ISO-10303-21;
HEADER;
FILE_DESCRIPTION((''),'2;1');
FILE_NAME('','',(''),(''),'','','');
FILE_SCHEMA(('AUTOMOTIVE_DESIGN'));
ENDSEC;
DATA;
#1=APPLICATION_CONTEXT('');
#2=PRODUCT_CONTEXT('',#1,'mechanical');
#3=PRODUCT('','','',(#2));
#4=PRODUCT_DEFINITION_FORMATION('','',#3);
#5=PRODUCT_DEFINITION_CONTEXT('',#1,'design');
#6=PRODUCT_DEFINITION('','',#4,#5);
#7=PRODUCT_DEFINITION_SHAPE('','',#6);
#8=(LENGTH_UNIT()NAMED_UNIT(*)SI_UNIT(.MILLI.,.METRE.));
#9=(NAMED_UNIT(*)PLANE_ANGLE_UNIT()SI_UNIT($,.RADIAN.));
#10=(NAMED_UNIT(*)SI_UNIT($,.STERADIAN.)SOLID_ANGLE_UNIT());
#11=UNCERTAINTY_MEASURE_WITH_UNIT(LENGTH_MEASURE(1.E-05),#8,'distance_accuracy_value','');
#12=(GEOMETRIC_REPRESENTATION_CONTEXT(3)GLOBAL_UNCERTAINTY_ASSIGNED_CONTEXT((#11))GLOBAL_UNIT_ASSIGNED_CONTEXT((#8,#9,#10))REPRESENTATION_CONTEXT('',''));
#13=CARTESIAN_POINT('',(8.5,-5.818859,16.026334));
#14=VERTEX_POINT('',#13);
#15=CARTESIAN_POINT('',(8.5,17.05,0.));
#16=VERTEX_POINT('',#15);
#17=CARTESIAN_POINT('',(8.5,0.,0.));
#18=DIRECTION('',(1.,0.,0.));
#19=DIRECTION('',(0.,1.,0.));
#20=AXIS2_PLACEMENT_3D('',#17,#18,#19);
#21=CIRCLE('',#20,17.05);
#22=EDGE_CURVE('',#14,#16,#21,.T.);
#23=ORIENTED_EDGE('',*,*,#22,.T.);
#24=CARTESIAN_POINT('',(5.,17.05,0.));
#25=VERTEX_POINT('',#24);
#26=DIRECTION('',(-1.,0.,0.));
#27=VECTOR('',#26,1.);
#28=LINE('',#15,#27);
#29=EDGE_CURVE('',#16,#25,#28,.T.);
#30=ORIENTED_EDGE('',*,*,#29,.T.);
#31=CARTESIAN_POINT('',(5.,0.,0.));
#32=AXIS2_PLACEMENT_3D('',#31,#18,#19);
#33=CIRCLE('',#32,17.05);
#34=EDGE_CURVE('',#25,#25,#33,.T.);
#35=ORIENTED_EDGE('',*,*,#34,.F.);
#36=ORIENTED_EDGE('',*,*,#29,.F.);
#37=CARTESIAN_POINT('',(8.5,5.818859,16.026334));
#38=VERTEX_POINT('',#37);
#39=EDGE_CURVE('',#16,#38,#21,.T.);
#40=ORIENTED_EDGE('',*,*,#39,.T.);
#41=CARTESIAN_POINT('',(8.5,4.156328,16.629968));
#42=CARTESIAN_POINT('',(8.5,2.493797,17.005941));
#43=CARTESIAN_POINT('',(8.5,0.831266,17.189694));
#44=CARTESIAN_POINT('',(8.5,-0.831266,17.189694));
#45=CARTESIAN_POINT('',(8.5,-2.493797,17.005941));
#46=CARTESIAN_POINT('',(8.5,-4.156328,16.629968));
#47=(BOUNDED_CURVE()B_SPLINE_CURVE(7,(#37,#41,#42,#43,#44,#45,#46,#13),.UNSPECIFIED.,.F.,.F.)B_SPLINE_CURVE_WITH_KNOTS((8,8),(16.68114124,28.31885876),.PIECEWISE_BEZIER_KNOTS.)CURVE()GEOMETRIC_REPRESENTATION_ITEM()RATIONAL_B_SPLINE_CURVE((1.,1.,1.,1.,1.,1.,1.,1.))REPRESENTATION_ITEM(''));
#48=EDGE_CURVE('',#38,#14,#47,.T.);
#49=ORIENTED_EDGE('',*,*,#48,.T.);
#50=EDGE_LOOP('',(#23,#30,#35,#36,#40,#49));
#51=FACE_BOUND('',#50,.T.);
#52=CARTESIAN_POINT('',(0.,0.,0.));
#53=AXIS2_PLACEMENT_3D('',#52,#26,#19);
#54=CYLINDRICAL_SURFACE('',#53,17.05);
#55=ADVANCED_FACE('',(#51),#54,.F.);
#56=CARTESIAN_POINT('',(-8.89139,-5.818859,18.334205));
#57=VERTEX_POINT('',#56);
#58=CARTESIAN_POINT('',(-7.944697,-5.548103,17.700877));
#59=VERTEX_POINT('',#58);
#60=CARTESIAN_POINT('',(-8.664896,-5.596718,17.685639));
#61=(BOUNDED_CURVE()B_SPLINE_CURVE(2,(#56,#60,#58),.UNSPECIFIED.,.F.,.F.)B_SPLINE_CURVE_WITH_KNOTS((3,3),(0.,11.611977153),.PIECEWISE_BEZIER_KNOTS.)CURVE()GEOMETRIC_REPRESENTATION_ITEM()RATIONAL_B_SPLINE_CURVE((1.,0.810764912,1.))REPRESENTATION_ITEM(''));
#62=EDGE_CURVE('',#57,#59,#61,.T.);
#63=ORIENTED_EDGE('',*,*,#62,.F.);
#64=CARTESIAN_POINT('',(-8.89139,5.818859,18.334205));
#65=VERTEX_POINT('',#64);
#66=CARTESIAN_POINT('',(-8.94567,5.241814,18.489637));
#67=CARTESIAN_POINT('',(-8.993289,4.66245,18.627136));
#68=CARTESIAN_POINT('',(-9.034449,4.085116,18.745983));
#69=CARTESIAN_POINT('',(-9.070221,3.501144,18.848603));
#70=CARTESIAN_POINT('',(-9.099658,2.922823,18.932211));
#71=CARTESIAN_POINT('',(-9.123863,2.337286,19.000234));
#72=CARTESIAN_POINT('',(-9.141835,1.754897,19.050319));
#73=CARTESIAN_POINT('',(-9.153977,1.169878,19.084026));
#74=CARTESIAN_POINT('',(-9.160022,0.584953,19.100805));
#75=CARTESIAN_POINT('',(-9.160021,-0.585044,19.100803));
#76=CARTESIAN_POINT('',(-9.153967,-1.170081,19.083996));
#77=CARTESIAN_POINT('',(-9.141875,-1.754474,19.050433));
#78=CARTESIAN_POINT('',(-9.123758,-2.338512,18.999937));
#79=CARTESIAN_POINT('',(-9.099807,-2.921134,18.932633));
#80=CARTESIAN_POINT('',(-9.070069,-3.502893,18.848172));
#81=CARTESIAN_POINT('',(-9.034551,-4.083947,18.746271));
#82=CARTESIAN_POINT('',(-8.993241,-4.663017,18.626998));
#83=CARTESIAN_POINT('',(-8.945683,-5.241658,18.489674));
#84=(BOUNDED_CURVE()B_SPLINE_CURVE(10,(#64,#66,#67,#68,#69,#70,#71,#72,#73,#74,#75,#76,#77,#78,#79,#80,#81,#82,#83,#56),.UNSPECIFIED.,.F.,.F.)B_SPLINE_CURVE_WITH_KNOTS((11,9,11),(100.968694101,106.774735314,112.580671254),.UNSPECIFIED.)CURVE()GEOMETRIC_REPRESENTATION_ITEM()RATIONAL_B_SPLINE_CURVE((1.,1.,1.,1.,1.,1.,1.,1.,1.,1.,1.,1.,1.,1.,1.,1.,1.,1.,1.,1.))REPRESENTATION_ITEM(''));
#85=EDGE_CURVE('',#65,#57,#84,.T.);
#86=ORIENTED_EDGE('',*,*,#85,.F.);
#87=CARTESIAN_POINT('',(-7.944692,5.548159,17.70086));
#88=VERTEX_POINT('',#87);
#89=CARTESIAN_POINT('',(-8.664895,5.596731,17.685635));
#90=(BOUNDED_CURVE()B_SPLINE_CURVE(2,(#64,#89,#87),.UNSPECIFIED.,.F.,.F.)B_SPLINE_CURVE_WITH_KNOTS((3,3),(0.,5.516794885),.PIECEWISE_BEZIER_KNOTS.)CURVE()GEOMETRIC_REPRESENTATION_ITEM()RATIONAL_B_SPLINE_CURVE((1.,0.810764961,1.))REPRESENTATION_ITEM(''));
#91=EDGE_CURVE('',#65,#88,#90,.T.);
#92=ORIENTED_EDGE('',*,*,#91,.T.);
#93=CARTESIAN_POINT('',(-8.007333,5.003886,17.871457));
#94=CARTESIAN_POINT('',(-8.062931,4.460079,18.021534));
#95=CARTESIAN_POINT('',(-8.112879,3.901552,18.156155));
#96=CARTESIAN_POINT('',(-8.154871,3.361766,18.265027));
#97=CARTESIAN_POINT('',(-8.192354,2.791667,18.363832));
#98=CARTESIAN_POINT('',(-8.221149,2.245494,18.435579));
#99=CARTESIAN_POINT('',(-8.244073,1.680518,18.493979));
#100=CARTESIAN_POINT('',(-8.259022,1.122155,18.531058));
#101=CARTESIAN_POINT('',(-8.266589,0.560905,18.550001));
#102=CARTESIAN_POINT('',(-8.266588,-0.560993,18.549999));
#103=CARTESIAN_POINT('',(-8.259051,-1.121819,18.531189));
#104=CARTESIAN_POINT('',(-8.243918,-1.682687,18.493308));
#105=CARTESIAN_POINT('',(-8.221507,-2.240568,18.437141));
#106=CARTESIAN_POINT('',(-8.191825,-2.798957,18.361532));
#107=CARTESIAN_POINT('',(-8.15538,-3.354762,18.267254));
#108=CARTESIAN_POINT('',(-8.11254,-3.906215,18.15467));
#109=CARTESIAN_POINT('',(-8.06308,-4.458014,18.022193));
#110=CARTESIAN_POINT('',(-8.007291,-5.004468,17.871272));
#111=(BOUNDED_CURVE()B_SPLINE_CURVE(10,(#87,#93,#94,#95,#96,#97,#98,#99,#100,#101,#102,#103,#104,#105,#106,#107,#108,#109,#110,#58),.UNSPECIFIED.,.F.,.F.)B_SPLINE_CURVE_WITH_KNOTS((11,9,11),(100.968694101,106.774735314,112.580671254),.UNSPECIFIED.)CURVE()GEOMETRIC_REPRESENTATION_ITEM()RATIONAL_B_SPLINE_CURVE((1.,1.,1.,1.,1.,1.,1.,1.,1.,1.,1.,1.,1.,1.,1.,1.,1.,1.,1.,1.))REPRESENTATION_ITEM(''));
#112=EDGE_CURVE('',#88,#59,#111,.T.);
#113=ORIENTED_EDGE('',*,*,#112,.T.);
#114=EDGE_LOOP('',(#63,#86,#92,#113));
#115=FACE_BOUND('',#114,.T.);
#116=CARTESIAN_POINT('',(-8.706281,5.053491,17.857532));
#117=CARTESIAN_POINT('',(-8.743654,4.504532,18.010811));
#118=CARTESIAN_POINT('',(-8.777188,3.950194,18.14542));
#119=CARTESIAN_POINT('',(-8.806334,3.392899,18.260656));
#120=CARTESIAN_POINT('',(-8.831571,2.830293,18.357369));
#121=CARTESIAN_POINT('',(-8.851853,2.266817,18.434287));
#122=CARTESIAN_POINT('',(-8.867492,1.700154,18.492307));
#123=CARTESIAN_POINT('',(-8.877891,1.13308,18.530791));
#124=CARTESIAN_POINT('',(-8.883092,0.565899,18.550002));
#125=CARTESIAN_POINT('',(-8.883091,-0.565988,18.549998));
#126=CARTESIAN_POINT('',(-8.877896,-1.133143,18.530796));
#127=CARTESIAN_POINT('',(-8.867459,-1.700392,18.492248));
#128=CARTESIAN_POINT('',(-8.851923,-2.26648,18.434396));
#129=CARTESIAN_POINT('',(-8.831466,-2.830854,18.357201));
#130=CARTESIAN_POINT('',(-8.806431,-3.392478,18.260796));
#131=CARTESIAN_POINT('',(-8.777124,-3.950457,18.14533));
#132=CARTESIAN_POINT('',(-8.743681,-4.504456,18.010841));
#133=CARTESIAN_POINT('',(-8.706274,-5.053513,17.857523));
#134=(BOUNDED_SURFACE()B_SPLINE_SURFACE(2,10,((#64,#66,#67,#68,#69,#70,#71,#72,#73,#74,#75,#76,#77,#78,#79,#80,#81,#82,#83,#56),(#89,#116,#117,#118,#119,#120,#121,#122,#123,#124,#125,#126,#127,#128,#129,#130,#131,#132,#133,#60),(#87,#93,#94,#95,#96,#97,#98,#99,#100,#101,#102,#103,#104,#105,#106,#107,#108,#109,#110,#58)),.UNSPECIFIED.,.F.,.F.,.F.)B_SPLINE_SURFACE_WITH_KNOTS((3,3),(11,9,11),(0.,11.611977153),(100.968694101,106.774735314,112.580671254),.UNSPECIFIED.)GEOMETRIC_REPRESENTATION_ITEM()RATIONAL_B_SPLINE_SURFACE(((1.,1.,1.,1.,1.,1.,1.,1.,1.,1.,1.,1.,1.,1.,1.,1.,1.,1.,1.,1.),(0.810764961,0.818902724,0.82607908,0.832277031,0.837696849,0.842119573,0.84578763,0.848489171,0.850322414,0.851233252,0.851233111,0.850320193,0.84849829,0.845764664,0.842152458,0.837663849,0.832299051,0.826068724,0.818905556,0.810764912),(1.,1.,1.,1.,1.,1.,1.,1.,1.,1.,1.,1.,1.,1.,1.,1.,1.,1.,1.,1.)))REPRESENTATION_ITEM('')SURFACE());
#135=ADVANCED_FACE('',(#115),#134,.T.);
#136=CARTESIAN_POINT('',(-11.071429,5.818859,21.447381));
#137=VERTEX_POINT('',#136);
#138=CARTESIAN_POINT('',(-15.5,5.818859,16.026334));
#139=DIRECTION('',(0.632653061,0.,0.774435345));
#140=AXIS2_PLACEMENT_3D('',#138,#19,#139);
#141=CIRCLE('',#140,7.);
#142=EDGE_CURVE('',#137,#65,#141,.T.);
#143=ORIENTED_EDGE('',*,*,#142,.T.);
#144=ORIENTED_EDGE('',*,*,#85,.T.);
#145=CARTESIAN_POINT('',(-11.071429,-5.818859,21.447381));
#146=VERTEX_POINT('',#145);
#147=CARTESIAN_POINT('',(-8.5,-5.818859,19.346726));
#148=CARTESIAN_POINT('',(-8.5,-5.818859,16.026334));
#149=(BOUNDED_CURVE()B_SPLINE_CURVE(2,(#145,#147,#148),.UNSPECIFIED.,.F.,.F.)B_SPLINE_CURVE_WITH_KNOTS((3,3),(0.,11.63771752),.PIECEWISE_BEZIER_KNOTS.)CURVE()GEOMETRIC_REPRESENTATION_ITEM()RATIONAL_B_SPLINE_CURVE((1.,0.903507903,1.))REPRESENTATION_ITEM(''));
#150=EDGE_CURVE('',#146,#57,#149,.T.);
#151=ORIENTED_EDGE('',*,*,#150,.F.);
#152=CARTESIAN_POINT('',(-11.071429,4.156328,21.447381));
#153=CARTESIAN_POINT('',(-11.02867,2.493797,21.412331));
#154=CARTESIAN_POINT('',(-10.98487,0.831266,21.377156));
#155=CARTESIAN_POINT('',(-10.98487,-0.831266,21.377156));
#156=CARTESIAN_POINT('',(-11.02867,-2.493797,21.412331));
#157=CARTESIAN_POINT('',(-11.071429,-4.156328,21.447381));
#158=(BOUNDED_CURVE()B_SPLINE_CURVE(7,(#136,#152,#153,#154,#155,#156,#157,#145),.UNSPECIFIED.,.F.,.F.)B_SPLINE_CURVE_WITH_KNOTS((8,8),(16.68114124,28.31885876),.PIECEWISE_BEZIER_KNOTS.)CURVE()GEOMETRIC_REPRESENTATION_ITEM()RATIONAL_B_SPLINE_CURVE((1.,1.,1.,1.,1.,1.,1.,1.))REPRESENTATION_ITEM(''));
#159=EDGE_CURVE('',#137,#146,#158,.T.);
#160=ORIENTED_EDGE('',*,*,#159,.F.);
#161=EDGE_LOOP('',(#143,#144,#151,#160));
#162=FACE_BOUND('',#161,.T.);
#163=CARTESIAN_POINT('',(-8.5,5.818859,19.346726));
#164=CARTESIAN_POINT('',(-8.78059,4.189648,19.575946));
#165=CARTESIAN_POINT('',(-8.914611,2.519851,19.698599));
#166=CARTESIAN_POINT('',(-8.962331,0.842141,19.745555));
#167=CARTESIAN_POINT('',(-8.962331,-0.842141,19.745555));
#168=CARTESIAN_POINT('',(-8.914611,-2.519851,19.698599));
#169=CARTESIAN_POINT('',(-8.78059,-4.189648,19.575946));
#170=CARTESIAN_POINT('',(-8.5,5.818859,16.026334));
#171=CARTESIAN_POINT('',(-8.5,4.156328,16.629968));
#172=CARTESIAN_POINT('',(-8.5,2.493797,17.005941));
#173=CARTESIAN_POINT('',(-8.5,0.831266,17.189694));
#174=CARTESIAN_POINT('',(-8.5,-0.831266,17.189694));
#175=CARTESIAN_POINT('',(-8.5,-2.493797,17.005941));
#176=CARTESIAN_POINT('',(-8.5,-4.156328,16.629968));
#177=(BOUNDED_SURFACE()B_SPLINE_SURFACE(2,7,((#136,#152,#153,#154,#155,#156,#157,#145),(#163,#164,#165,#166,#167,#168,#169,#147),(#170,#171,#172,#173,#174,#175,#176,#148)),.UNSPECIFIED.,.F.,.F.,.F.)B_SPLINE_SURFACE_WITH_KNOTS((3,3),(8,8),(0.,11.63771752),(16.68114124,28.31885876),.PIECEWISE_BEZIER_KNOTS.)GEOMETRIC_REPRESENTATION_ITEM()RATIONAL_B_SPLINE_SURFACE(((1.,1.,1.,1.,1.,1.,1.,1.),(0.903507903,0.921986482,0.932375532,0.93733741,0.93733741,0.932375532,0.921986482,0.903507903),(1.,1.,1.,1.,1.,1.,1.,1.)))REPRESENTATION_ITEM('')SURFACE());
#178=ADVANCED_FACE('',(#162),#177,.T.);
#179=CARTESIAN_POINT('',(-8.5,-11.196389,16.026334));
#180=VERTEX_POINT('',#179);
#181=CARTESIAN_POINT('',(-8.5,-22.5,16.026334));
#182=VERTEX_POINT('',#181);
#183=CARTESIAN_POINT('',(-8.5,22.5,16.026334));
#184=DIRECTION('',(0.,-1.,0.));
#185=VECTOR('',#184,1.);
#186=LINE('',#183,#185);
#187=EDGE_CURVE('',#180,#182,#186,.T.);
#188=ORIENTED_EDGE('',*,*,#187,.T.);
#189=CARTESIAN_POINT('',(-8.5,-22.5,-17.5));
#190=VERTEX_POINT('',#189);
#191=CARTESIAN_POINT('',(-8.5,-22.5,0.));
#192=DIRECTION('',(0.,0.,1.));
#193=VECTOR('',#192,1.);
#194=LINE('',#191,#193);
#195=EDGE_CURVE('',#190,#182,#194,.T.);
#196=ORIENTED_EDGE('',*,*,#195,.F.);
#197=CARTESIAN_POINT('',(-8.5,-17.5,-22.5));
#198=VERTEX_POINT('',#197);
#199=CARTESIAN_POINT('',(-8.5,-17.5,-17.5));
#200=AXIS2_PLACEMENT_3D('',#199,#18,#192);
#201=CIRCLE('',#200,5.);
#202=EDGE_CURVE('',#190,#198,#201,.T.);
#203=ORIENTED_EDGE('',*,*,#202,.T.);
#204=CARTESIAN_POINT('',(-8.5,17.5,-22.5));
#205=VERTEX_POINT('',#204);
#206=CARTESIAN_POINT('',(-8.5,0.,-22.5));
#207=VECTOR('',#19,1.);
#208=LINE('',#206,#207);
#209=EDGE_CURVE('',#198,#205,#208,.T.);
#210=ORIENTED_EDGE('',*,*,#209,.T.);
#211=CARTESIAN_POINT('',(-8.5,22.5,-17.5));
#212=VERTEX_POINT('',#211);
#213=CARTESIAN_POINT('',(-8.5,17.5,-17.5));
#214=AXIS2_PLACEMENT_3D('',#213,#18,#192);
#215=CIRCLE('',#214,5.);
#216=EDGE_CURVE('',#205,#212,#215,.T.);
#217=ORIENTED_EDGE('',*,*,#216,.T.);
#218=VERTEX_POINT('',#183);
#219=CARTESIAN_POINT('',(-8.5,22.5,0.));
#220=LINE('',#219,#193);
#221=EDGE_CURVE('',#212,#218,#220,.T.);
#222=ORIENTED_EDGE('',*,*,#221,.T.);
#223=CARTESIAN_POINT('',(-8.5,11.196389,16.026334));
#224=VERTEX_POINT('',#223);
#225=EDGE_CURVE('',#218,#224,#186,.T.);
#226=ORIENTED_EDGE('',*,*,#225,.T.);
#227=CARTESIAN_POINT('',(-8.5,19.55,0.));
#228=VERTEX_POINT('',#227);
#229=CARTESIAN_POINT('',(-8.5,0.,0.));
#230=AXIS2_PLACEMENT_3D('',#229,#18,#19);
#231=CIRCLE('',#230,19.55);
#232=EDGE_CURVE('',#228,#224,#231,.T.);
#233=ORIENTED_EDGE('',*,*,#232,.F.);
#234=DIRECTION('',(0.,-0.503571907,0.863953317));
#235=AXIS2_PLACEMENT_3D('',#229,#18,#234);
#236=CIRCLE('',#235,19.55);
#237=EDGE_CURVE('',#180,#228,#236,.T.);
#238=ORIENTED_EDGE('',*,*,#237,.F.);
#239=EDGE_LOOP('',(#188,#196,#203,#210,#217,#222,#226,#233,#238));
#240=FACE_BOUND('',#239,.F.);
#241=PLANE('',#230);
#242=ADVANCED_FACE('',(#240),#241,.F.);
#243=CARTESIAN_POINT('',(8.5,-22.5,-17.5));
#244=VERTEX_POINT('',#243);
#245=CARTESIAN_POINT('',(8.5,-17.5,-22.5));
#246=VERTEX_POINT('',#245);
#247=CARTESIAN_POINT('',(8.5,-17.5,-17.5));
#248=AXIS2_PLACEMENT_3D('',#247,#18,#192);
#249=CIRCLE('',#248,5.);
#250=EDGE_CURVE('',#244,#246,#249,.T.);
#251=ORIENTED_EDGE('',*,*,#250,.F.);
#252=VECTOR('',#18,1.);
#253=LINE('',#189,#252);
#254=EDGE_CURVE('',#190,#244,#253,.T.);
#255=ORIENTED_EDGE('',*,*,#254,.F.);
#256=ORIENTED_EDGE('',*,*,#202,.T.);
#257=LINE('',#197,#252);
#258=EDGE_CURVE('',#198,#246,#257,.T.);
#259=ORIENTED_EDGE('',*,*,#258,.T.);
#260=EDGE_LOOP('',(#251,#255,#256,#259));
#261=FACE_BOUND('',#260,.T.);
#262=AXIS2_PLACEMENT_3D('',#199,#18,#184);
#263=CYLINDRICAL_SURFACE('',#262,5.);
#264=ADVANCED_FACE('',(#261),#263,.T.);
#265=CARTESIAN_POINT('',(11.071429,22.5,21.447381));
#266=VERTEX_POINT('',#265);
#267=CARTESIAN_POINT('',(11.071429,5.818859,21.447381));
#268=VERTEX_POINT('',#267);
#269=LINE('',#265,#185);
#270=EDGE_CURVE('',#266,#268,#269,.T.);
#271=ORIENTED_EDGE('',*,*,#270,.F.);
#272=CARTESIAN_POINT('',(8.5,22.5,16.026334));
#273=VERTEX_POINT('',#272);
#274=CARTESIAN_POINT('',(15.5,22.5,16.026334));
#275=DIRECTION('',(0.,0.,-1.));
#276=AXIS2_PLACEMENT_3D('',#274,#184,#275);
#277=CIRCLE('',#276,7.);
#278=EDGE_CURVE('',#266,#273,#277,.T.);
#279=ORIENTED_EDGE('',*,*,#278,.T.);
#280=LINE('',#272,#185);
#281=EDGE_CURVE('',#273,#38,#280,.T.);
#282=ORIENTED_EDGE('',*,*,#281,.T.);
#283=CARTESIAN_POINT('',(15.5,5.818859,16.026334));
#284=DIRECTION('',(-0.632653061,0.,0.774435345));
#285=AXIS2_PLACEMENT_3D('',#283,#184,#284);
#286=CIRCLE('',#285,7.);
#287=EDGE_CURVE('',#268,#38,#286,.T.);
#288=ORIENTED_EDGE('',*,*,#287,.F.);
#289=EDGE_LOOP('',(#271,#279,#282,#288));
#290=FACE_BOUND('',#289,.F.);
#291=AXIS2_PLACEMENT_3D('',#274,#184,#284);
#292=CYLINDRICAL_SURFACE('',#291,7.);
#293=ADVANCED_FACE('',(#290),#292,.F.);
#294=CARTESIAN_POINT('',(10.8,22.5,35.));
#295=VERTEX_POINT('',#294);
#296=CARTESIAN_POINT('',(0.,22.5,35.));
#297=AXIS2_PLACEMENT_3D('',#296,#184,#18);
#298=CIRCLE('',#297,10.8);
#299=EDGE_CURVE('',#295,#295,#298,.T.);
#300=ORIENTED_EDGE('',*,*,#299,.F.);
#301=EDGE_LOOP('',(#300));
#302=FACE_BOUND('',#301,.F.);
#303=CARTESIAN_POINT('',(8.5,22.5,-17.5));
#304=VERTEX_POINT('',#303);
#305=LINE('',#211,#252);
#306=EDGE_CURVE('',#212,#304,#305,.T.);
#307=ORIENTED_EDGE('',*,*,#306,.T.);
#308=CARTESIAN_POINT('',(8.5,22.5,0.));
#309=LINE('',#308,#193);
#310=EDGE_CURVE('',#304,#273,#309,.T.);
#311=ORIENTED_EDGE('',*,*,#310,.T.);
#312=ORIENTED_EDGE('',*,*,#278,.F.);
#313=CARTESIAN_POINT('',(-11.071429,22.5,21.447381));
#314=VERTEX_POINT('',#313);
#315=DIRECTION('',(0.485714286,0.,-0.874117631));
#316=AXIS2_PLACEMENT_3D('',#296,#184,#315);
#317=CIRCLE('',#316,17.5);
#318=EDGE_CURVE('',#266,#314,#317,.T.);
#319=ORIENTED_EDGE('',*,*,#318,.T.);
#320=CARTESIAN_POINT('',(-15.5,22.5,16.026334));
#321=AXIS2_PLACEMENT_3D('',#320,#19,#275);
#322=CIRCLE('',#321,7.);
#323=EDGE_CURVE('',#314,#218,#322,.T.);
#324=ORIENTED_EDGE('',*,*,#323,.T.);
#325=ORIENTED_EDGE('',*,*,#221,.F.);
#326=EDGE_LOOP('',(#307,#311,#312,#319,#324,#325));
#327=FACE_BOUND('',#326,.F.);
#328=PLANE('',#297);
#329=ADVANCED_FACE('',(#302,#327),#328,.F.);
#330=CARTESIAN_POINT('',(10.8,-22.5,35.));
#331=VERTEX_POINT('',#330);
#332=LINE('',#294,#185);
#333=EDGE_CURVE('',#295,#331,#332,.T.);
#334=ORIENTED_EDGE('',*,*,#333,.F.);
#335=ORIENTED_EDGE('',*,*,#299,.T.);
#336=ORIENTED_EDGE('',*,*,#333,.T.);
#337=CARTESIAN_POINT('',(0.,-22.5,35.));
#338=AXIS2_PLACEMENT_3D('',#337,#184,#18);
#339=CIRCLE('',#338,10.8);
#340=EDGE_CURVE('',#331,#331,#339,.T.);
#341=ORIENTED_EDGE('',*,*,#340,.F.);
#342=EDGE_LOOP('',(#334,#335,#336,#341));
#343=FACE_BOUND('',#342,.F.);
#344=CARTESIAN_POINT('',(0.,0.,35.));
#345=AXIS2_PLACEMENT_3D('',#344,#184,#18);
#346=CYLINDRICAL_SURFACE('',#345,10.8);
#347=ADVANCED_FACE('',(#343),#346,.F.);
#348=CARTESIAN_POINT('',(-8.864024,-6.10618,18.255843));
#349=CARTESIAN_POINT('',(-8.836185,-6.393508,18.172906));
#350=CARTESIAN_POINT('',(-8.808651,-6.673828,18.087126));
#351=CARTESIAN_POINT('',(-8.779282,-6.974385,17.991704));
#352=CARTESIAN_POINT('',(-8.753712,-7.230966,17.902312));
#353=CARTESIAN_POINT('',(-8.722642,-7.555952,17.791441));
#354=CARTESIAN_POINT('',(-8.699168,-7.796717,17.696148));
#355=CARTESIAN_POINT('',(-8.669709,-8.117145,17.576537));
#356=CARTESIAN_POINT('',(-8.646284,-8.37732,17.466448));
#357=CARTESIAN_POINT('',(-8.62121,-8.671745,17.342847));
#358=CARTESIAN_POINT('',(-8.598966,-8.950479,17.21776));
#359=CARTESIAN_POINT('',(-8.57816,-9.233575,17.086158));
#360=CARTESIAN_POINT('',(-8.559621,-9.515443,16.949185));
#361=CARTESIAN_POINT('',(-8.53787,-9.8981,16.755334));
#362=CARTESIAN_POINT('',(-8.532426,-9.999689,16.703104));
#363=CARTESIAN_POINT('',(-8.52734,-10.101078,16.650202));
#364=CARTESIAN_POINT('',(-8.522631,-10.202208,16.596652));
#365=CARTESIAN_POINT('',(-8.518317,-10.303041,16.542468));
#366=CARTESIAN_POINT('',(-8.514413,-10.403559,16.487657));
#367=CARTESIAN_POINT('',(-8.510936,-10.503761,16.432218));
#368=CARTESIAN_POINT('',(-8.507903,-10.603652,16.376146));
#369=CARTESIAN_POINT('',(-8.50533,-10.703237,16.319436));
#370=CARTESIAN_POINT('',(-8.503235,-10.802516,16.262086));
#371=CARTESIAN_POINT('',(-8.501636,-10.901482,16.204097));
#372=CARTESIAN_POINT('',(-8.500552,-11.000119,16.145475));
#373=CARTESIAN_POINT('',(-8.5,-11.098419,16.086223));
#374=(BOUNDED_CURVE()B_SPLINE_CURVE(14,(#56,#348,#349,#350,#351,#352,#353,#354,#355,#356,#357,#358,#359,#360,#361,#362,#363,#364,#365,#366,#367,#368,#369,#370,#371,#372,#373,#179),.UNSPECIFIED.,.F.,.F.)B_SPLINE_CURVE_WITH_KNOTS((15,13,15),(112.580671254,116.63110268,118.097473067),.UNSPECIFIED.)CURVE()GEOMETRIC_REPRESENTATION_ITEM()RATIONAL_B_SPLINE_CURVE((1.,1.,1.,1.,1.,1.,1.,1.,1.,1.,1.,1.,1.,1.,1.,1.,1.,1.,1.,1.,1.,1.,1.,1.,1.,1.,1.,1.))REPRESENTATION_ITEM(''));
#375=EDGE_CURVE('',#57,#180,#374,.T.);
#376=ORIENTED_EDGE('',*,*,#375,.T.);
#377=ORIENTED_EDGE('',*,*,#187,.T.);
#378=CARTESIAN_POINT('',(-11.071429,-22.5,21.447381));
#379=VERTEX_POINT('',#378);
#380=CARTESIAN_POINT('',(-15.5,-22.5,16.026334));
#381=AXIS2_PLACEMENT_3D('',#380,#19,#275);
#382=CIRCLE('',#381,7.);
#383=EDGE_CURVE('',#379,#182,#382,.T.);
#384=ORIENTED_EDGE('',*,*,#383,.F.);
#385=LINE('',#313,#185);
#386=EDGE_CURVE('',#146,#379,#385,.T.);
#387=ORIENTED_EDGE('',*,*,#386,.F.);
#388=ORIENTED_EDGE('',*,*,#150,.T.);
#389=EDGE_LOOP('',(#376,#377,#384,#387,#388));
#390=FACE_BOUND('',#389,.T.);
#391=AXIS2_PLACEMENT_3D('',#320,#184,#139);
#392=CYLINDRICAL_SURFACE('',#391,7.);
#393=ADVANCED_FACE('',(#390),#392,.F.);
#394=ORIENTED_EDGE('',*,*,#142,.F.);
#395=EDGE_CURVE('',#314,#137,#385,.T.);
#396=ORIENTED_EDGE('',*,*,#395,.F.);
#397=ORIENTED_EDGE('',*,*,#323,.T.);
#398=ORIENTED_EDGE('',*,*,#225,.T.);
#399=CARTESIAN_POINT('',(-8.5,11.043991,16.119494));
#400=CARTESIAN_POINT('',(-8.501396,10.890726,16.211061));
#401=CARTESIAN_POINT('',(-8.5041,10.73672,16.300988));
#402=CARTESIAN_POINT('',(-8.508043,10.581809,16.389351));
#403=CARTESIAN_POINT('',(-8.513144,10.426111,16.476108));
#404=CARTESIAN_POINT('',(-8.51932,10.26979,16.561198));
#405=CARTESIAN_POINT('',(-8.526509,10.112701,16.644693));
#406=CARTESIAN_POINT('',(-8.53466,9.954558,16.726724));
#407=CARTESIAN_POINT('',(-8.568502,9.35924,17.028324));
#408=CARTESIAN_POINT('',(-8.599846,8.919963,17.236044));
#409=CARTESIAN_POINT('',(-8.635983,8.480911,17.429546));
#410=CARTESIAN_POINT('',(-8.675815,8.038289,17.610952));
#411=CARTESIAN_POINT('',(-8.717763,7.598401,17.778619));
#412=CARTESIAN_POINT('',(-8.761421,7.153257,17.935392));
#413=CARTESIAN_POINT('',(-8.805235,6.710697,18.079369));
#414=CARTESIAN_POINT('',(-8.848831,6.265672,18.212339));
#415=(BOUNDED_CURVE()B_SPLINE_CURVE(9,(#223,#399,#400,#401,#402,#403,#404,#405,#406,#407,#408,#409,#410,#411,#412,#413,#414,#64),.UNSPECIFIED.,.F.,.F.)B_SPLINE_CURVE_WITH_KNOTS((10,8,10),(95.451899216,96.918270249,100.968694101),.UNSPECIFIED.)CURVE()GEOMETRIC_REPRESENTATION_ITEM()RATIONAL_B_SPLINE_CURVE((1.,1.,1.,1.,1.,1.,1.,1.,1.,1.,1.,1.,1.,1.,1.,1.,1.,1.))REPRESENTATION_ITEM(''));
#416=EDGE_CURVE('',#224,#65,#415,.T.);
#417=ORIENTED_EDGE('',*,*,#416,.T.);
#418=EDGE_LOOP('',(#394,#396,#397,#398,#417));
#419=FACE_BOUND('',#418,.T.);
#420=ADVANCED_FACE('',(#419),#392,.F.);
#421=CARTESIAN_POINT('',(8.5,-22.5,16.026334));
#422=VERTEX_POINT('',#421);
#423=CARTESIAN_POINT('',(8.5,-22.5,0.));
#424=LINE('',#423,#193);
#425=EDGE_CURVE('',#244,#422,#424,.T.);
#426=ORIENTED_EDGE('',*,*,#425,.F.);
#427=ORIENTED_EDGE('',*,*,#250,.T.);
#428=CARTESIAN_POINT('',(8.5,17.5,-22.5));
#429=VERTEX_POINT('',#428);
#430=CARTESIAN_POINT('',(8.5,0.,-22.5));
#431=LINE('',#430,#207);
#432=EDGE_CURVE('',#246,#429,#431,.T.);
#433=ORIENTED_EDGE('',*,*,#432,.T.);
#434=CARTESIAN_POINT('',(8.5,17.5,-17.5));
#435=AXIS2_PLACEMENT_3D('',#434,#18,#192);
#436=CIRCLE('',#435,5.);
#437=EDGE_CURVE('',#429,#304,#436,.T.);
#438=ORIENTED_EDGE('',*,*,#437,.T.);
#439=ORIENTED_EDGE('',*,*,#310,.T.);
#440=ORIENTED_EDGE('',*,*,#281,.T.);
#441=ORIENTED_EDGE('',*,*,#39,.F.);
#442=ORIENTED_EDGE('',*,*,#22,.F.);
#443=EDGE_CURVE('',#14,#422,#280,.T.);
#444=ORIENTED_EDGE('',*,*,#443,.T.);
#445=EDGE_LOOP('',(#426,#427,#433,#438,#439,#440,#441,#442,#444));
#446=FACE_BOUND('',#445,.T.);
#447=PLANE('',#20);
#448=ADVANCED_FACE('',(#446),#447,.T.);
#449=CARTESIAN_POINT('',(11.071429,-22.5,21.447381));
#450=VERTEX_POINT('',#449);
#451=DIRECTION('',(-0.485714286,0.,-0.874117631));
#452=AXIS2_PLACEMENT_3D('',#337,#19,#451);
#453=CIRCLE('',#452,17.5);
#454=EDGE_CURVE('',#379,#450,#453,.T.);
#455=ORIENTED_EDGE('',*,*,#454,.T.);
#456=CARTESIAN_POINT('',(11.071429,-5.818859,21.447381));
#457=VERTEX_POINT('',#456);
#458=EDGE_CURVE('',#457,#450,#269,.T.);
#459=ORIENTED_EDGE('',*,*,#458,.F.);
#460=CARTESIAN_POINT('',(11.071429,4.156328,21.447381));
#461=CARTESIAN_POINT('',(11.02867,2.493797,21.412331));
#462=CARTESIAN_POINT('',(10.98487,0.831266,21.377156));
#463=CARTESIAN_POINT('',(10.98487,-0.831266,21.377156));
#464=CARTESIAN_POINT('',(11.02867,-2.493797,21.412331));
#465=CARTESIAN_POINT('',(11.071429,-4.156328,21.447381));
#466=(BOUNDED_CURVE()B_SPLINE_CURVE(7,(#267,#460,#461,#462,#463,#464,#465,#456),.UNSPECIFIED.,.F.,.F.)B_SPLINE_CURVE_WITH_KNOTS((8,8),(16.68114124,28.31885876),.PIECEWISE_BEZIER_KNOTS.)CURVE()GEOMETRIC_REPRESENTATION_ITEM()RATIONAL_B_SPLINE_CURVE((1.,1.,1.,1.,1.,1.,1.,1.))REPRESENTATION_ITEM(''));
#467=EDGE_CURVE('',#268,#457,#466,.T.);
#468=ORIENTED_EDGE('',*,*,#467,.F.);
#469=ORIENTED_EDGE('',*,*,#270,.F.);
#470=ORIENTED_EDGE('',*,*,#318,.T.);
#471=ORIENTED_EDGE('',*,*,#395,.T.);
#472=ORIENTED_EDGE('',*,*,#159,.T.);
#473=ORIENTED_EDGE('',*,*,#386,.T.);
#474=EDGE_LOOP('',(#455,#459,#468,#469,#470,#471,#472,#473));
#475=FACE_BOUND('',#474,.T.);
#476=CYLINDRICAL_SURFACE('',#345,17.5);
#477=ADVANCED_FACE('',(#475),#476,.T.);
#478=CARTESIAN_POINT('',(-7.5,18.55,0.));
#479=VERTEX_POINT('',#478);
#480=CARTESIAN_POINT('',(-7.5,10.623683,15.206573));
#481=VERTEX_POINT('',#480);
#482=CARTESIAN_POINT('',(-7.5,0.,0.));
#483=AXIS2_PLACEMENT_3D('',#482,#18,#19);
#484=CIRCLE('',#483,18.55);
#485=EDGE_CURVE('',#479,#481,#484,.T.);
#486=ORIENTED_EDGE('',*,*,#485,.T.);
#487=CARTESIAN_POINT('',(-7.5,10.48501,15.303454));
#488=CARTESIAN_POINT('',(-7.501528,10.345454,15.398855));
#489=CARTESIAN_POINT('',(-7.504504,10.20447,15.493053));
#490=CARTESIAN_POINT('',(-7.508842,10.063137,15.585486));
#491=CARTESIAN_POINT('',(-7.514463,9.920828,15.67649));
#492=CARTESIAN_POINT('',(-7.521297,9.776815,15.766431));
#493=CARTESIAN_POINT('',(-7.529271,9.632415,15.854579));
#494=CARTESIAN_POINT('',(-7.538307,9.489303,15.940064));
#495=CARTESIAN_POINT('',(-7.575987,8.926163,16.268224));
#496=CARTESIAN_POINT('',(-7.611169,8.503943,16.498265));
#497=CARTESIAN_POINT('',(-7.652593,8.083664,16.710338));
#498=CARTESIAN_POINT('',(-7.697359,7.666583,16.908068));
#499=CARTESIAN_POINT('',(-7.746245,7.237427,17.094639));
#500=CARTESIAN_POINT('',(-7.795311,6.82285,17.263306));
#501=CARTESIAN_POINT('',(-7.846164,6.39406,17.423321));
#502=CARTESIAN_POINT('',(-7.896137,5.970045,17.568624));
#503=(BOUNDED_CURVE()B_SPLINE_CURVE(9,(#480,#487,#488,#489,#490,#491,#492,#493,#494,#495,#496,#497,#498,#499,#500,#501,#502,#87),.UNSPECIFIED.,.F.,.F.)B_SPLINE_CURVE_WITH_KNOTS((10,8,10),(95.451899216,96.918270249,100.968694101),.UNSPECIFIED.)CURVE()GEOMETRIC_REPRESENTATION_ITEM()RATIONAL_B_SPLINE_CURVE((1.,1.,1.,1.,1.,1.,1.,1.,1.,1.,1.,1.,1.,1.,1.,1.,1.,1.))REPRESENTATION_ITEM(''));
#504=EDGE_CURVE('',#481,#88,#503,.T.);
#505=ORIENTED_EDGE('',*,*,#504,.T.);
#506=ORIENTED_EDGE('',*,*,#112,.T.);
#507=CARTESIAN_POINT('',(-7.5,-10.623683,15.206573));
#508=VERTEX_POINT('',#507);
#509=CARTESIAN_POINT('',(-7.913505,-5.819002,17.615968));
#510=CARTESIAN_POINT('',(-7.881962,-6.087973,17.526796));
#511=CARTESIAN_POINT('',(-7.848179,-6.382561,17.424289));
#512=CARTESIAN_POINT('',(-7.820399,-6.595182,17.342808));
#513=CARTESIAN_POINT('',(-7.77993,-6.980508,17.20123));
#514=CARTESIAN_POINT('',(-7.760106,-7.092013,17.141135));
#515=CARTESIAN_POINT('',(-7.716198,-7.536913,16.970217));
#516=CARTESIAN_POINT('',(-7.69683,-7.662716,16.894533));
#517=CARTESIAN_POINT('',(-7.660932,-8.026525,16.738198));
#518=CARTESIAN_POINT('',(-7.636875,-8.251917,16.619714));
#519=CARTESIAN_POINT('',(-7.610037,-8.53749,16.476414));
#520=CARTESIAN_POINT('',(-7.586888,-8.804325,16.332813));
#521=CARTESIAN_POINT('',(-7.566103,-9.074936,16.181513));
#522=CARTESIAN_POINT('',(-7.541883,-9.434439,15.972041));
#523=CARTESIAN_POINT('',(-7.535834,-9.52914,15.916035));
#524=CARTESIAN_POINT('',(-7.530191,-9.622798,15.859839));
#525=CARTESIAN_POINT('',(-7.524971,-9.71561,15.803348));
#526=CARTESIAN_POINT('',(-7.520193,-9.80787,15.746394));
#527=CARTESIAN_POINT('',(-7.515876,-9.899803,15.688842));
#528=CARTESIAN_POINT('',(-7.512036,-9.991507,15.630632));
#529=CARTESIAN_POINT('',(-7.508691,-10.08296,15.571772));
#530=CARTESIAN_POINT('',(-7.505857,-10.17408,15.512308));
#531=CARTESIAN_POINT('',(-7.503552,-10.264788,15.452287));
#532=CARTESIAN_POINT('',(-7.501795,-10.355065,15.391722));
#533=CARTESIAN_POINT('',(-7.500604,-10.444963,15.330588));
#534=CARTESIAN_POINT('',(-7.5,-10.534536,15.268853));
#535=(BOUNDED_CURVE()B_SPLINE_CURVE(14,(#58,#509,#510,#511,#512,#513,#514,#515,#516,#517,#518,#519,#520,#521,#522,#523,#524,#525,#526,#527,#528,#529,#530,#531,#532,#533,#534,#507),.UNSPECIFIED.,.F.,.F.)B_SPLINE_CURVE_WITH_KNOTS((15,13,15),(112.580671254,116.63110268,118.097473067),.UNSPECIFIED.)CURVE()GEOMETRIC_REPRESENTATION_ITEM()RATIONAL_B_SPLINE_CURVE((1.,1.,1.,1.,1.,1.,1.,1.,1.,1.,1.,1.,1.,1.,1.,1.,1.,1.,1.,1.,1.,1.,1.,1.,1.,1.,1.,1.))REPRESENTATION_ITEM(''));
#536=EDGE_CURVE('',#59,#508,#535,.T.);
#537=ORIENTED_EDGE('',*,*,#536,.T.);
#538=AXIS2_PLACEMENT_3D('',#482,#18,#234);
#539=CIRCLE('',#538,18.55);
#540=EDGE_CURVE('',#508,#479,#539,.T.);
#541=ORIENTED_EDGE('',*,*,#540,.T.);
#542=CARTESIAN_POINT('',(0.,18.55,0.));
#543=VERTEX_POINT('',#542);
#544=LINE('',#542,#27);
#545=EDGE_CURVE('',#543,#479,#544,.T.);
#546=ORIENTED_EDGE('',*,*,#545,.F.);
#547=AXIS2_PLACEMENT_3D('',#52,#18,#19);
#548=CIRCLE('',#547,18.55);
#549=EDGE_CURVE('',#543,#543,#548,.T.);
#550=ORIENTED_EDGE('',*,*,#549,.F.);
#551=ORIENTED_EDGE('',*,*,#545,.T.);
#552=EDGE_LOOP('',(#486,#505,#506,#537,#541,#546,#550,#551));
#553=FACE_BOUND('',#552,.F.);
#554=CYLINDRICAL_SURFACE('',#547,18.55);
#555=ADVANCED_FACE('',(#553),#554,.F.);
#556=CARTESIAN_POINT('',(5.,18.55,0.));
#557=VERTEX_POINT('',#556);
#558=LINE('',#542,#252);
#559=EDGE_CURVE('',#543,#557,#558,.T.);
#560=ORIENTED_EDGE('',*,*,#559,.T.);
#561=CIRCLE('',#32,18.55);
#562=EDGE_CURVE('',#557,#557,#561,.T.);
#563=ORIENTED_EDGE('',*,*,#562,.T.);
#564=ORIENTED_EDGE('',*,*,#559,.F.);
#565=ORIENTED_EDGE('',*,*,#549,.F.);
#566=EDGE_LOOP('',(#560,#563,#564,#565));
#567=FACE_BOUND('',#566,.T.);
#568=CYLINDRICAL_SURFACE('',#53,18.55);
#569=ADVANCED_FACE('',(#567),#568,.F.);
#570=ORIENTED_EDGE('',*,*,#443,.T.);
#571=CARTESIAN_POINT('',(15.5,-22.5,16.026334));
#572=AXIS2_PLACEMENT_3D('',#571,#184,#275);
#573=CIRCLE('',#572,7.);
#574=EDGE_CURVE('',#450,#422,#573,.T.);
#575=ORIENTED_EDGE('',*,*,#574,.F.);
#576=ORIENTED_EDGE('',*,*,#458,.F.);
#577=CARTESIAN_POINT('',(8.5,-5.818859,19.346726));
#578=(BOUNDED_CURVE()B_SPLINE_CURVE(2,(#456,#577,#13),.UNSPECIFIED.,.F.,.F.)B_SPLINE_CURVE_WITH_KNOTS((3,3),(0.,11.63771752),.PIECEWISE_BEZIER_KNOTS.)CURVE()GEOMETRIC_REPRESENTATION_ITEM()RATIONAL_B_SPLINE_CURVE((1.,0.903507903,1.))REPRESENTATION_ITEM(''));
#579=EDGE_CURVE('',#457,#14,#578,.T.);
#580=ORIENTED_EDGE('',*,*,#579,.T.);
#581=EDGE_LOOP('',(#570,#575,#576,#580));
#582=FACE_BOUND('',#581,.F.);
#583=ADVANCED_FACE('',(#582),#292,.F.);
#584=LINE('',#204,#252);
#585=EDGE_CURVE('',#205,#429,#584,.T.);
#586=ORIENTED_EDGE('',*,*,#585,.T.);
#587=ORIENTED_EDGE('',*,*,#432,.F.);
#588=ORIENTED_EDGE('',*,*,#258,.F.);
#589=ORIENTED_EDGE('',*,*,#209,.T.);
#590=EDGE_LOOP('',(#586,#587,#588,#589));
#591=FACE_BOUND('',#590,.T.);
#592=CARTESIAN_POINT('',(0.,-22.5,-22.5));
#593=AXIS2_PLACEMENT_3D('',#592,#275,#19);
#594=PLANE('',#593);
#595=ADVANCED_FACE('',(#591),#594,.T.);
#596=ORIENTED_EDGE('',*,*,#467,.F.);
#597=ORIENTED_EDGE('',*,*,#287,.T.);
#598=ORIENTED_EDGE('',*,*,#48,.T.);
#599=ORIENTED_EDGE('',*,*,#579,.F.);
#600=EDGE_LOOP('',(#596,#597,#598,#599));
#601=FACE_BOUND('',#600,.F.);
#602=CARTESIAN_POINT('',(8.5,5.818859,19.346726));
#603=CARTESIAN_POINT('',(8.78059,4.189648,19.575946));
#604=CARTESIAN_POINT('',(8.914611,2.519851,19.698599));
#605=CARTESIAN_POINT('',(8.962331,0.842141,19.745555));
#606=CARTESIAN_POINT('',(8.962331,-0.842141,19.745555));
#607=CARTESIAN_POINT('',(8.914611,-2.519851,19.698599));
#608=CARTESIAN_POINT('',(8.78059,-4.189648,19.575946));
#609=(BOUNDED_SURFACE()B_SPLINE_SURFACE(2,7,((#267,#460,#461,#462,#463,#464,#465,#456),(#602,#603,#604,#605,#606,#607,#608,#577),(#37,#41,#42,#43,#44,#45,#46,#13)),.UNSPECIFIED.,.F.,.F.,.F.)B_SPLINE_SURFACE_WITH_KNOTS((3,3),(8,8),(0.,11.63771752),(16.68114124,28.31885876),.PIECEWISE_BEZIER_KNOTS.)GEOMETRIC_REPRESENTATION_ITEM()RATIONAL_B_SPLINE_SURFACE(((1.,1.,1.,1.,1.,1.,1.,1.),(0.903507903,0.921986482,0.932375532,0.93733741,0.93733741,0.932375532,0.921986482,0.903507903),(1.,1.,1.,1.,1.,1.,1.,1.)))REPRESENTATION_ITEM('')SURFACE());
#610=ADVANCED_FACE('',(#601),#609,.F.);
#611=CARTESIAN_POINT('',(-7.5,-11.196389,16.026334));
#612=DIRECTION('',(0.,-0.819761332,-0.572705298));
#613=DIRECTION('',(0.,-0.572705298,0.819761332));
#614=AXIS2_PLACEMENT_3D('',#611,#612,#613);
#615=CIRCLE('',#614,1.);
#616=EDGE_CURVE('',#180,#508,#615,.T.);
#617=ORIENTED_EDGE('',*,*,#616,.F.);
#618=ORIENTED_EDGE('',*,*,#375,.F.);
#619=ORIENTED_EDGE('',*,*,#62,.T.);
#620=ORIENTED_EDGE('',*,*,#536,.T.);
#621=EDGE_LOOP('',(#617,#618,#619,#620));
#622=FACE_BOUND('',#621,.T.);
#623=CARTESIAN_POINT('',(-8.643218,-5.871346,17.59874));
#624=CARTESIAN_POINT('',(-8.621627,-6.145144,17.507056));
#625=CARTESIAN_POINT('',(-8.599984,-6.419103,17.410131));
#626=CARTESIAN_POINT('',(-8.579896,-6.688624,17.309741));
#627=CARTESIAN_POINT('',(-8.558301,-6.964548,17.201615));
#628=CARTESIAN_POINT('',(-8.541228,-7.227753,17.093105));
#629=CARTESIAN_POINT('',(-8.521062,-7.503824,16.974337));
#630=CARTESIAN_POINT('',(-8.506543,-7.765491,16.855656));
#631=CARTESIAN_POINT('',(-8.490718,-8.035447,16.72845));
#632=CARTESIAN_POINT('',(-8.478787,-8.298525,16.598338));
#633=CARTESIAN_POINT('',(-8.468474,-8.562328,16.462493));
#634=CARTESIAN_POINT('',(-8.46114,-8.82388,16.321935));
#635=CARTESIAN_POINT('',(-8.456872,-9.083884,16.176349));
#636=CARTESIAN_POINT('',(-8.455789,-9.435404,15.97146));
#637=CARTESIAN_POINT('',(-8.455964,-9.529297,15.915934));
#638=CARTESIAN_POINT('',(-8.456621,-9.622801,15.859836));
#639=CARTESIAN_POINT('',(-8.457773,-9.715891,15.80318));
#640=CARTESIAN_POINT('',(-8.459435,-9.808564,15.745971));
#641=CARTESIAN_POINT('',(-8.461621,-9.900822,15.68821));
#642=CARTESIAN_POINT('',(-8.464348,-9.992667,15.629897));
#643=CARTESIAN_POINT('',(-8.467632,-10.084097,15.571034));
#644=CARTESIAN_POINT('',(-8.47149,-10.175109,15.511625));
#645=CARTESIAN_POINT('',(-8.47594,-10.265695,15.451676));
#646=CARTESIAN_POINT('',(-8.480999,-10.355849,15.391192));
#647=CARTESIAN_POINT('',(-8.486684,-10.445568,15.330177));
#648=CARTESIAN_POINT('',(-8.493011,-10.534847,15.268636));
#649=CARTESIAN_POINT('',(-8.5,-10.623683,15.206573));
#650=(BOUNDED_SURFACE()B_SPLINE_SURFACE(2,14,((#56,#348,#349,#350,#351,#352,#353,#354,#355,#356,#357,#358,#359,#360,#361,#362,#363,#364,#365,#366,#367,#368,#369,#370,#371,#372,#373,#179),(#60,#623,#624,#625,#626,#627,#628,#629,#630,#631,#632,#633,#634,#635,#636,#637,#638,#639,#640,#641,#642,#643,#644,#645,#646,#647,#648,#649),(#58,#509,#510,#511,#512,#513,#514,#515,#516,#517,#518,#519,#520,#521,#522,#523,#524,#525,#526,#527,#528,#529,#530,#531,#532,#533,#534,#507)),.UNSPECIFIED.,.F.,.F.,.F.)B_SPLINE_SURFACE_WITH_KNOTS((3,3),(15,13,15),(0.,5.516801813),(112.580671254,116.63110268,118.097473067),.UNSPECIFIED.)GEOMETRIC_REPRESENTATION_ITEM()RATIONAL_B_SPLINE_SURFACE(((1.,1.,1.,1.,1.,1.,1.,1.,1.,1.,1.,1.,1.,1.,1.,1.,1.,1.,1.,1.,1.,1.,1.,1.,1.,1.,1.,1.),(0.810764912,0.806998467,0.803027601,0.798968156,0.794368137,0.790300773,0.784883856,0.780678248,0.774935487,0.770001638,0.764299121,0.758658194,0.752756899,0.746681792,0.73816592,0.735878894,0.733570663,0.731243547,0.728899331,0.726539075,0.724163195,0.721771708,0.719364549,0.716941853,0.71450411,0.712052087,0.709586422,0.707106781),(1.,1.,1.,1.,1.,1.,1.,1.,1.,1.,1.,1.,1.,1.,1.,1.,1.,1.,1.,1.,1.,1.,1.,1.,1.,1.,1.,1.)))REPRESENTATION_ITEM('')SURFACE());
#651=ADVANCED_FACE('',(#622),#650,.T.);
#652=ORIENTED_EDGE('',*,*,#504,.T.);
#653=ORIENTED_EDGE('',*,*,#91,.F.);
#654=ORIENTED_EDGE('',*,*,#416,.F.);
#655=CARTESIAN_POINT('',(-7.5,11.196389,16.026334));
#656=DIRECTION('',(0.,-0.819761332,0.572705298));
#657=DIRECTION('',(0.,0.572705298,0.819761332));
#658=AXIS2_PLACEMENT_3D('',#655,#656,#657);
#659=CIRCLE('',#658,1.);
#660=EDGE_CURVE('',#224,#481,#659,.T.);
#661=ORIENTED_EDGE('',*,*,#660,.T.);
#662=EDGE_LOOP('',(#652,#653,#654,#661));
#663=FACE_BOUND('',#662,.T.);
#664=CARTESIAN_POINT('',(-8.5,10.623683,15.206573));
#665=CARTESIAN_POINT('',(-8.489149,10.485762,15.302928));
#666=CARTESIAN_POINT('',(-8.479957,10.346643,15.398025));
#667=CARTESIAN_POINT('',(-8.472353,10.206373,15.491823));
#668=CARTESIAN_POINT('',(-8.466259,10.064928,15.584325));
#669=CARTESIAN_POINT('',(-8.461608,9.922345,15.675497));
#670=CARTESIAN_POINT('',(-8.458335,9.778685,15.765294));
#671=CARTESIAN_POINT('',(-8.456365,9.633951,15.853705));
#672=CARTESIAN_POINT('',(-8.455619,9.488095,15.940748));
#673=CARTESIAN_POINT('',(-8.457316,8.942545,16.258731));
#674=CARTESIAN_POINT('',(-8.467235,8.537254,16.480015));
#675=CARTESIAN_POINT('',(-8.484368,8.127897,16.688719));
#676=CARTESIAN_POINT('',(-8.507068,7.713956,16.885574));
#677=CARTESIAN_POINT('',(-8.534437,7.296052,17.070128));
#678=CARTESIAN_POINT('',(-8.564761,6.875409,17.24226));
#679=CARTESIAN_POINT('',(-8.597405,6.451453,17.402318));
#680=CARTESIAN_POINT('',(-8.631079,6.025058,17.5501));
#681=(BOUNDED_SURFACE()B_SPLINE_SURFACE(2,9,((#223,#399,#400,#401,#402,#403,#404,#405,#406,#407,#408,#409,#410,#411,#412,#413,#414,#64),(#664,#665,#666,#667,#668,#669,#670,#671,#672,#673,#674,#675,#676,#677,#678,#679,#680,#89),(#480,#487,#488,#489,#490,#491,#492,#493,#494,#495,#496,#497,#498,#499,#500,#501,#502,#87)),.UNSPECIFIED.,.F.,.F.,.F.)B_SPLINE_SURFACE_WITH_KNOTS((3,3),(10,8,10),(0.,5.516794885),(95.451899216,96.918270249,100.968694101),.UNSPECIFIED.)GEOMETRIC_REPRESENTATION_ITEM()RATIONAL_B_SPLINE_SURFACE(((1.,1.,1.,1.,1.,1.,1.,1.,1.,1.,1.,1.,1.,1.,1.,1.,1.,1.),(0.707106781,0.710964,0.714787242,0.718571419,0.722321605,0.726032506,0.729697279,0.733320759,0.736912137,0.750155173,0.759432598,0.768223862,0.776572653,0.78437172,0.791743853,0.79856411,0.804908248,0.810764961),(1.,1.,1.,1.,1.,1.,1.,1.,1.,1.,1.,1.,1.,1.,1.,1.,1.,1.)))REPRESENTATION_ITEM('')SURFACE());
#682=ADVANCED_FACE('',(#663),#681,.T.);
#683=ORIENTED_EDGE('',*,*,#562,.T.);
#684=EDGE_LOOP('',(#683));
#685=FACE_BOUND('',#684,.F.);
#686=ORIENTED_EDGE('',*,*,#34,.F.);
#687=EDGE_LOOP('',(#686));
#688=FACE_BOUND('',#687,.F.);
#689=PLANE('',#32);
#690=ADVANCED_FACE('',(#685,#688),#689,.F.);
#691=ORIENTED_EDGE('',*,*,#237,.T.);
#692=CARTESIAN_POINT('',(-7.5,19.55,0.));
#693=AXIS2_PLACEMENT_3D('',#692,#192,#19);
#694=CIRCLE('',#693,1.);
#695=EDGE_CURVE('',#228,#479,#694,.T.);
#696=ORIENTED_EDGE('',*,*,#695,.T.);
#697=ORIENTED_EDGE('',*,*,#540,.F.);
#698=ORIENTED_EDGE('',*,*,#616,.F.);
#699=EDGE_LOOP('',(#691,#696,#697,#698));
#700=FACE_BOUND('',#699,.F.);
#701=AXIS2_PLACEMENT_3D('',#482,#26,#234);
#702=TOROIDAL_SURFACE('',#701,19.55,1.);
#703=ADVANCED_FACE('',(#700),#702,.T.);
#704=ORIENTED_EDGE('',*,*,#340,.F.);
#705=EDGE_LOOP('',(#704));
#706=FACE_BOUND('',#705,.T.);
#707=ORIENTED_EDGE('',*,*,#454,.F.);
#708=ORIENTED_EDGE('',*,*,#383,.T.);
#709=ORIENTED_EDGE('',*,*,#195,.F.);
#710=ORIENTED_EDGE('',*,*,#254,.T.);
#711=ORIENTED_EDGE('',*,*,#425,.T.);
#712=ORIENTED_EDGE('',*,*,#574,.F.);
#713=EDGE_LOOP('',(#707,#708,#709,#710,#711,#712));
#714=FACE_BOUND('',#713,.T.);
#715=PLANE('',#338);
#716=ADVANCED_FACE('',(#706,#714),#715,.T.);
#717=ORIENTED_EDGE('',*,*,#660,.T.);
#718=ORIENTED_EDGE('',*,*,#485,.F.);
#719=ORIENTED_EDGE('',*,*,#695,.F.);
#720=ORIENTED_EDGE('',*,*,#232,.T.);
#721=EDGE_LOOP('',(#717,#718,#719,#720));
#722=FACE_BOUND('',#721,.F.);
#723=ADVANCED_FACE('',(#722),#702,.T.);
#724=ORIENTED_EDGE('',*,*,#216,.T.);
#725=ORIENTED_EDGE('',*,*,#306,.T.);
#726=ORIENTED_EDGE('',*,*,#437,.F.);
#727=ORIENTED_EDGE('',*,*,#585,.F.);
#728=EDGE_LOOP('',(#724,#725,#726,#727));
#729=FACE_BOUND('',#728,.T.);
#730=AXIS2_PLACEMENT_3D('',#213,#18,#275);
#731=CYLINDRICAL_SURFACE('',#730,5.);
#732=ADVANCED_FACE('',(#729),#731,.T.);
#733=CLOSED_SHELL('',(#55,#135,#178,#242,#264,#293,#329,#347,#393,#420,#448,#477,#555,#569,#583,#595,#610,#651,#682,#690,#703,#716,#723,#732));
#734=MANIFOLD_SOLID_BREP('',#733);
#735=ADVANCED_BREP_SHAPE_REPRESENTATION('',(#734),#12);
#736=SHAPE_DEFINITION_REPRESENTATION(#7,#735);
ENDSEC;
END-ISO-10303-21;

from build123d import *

# Parameters (mm, degrees)
F0_W          = 45
F0_H          = 45
F0_R          = 18.55
F0_R_2        = 17.05
F2_DEPTH      = 8.5
F1_R          = 17.5
F1_R_2        = 10.8
F3_DEPTH      = 22.5
F4_DEPTH      = 22.5
F5_R          = 7
F6_DEPTH      = 25
F6_DEPTH_BACK = 5
F7_R          = 1
F8_R          = 5


with BuildPart() as f2:
    # F0 (on Right) → F2 (new body, symmetric)
    with BuildSketch(Plane.YZ):
        Rectangle(F0_W, F0_H)
        Circle(F0_R, mode=Mode.SUBTRACT)
        Circle(F0_R)
        Circle(F0_R_2, mode=Mode.SUBTRACT)
    extrude(amount=F2_DEPTH, both=True)

    # F1 (on Front) → F3 (join, symmetric)
    with BuildSketch(Plane.XZ):
        with Locations((0, 35)):
            Circle(F1_R)
        with Locations((0, 35)):
            Circle(F1_R_2, mode=Mode.SUBTRACT)
        with Locations((0, 35)):
            Circle(F1_R_2)
    extrude(amount=F3_DEPTH, both=True)

    # F1 (on Front) → F4 (cut, symmetric)
    with BuildSketch(Plane.XZ):
        with Locations((0, 35)):
            Circle(F1_R_2)
    extrude(amount=F4_DEPTH, both=True, mode=Mode.SUBTRACT)

    # F5
    f5_edges = [f2.edges().sort_by_distance(p)[0] for p in [
        (-8.5, 0, 19.702941),
        (8.5, 0, 19.702941),
    ]]
    fillet(f5_edges, radius=F5_R)

    # F0 (on Right) → F6 (cut, two sides)
    with BuildSketch(Plane.YZ) as f6_sk:
        Circle(F0_R)
        Circle(F0_R_2, mode=Mode.SUBTRACT)
    extrude(amount=-F6_DEPTH, mode=Mode.SUBTRACT)
    extrude(f6_sk.sketch, amount=F6_DEPTH_BACK, mode=Mode.SUBTRACT)

    # F7
    f7_edges = [f2.edges().sort_by_distance(p)[0] for p in [
        (-8.5, -9.241811, -16.083887),
        (-8.5, 16.083887, 9.241811),
        (-8.912254, 0, 18.55),
    ]]
    fillet(f7_edges, radius=F7_R)

    # F8
    f8_edges = [f2.edges().sort_by_distance(p)[0] for p in [
        (0, 22.5, -22.5),
        (0, -22.5, -22.5),
    ]]
    fillet(f8_edges, radius=F8_R)


solid = f2.part
